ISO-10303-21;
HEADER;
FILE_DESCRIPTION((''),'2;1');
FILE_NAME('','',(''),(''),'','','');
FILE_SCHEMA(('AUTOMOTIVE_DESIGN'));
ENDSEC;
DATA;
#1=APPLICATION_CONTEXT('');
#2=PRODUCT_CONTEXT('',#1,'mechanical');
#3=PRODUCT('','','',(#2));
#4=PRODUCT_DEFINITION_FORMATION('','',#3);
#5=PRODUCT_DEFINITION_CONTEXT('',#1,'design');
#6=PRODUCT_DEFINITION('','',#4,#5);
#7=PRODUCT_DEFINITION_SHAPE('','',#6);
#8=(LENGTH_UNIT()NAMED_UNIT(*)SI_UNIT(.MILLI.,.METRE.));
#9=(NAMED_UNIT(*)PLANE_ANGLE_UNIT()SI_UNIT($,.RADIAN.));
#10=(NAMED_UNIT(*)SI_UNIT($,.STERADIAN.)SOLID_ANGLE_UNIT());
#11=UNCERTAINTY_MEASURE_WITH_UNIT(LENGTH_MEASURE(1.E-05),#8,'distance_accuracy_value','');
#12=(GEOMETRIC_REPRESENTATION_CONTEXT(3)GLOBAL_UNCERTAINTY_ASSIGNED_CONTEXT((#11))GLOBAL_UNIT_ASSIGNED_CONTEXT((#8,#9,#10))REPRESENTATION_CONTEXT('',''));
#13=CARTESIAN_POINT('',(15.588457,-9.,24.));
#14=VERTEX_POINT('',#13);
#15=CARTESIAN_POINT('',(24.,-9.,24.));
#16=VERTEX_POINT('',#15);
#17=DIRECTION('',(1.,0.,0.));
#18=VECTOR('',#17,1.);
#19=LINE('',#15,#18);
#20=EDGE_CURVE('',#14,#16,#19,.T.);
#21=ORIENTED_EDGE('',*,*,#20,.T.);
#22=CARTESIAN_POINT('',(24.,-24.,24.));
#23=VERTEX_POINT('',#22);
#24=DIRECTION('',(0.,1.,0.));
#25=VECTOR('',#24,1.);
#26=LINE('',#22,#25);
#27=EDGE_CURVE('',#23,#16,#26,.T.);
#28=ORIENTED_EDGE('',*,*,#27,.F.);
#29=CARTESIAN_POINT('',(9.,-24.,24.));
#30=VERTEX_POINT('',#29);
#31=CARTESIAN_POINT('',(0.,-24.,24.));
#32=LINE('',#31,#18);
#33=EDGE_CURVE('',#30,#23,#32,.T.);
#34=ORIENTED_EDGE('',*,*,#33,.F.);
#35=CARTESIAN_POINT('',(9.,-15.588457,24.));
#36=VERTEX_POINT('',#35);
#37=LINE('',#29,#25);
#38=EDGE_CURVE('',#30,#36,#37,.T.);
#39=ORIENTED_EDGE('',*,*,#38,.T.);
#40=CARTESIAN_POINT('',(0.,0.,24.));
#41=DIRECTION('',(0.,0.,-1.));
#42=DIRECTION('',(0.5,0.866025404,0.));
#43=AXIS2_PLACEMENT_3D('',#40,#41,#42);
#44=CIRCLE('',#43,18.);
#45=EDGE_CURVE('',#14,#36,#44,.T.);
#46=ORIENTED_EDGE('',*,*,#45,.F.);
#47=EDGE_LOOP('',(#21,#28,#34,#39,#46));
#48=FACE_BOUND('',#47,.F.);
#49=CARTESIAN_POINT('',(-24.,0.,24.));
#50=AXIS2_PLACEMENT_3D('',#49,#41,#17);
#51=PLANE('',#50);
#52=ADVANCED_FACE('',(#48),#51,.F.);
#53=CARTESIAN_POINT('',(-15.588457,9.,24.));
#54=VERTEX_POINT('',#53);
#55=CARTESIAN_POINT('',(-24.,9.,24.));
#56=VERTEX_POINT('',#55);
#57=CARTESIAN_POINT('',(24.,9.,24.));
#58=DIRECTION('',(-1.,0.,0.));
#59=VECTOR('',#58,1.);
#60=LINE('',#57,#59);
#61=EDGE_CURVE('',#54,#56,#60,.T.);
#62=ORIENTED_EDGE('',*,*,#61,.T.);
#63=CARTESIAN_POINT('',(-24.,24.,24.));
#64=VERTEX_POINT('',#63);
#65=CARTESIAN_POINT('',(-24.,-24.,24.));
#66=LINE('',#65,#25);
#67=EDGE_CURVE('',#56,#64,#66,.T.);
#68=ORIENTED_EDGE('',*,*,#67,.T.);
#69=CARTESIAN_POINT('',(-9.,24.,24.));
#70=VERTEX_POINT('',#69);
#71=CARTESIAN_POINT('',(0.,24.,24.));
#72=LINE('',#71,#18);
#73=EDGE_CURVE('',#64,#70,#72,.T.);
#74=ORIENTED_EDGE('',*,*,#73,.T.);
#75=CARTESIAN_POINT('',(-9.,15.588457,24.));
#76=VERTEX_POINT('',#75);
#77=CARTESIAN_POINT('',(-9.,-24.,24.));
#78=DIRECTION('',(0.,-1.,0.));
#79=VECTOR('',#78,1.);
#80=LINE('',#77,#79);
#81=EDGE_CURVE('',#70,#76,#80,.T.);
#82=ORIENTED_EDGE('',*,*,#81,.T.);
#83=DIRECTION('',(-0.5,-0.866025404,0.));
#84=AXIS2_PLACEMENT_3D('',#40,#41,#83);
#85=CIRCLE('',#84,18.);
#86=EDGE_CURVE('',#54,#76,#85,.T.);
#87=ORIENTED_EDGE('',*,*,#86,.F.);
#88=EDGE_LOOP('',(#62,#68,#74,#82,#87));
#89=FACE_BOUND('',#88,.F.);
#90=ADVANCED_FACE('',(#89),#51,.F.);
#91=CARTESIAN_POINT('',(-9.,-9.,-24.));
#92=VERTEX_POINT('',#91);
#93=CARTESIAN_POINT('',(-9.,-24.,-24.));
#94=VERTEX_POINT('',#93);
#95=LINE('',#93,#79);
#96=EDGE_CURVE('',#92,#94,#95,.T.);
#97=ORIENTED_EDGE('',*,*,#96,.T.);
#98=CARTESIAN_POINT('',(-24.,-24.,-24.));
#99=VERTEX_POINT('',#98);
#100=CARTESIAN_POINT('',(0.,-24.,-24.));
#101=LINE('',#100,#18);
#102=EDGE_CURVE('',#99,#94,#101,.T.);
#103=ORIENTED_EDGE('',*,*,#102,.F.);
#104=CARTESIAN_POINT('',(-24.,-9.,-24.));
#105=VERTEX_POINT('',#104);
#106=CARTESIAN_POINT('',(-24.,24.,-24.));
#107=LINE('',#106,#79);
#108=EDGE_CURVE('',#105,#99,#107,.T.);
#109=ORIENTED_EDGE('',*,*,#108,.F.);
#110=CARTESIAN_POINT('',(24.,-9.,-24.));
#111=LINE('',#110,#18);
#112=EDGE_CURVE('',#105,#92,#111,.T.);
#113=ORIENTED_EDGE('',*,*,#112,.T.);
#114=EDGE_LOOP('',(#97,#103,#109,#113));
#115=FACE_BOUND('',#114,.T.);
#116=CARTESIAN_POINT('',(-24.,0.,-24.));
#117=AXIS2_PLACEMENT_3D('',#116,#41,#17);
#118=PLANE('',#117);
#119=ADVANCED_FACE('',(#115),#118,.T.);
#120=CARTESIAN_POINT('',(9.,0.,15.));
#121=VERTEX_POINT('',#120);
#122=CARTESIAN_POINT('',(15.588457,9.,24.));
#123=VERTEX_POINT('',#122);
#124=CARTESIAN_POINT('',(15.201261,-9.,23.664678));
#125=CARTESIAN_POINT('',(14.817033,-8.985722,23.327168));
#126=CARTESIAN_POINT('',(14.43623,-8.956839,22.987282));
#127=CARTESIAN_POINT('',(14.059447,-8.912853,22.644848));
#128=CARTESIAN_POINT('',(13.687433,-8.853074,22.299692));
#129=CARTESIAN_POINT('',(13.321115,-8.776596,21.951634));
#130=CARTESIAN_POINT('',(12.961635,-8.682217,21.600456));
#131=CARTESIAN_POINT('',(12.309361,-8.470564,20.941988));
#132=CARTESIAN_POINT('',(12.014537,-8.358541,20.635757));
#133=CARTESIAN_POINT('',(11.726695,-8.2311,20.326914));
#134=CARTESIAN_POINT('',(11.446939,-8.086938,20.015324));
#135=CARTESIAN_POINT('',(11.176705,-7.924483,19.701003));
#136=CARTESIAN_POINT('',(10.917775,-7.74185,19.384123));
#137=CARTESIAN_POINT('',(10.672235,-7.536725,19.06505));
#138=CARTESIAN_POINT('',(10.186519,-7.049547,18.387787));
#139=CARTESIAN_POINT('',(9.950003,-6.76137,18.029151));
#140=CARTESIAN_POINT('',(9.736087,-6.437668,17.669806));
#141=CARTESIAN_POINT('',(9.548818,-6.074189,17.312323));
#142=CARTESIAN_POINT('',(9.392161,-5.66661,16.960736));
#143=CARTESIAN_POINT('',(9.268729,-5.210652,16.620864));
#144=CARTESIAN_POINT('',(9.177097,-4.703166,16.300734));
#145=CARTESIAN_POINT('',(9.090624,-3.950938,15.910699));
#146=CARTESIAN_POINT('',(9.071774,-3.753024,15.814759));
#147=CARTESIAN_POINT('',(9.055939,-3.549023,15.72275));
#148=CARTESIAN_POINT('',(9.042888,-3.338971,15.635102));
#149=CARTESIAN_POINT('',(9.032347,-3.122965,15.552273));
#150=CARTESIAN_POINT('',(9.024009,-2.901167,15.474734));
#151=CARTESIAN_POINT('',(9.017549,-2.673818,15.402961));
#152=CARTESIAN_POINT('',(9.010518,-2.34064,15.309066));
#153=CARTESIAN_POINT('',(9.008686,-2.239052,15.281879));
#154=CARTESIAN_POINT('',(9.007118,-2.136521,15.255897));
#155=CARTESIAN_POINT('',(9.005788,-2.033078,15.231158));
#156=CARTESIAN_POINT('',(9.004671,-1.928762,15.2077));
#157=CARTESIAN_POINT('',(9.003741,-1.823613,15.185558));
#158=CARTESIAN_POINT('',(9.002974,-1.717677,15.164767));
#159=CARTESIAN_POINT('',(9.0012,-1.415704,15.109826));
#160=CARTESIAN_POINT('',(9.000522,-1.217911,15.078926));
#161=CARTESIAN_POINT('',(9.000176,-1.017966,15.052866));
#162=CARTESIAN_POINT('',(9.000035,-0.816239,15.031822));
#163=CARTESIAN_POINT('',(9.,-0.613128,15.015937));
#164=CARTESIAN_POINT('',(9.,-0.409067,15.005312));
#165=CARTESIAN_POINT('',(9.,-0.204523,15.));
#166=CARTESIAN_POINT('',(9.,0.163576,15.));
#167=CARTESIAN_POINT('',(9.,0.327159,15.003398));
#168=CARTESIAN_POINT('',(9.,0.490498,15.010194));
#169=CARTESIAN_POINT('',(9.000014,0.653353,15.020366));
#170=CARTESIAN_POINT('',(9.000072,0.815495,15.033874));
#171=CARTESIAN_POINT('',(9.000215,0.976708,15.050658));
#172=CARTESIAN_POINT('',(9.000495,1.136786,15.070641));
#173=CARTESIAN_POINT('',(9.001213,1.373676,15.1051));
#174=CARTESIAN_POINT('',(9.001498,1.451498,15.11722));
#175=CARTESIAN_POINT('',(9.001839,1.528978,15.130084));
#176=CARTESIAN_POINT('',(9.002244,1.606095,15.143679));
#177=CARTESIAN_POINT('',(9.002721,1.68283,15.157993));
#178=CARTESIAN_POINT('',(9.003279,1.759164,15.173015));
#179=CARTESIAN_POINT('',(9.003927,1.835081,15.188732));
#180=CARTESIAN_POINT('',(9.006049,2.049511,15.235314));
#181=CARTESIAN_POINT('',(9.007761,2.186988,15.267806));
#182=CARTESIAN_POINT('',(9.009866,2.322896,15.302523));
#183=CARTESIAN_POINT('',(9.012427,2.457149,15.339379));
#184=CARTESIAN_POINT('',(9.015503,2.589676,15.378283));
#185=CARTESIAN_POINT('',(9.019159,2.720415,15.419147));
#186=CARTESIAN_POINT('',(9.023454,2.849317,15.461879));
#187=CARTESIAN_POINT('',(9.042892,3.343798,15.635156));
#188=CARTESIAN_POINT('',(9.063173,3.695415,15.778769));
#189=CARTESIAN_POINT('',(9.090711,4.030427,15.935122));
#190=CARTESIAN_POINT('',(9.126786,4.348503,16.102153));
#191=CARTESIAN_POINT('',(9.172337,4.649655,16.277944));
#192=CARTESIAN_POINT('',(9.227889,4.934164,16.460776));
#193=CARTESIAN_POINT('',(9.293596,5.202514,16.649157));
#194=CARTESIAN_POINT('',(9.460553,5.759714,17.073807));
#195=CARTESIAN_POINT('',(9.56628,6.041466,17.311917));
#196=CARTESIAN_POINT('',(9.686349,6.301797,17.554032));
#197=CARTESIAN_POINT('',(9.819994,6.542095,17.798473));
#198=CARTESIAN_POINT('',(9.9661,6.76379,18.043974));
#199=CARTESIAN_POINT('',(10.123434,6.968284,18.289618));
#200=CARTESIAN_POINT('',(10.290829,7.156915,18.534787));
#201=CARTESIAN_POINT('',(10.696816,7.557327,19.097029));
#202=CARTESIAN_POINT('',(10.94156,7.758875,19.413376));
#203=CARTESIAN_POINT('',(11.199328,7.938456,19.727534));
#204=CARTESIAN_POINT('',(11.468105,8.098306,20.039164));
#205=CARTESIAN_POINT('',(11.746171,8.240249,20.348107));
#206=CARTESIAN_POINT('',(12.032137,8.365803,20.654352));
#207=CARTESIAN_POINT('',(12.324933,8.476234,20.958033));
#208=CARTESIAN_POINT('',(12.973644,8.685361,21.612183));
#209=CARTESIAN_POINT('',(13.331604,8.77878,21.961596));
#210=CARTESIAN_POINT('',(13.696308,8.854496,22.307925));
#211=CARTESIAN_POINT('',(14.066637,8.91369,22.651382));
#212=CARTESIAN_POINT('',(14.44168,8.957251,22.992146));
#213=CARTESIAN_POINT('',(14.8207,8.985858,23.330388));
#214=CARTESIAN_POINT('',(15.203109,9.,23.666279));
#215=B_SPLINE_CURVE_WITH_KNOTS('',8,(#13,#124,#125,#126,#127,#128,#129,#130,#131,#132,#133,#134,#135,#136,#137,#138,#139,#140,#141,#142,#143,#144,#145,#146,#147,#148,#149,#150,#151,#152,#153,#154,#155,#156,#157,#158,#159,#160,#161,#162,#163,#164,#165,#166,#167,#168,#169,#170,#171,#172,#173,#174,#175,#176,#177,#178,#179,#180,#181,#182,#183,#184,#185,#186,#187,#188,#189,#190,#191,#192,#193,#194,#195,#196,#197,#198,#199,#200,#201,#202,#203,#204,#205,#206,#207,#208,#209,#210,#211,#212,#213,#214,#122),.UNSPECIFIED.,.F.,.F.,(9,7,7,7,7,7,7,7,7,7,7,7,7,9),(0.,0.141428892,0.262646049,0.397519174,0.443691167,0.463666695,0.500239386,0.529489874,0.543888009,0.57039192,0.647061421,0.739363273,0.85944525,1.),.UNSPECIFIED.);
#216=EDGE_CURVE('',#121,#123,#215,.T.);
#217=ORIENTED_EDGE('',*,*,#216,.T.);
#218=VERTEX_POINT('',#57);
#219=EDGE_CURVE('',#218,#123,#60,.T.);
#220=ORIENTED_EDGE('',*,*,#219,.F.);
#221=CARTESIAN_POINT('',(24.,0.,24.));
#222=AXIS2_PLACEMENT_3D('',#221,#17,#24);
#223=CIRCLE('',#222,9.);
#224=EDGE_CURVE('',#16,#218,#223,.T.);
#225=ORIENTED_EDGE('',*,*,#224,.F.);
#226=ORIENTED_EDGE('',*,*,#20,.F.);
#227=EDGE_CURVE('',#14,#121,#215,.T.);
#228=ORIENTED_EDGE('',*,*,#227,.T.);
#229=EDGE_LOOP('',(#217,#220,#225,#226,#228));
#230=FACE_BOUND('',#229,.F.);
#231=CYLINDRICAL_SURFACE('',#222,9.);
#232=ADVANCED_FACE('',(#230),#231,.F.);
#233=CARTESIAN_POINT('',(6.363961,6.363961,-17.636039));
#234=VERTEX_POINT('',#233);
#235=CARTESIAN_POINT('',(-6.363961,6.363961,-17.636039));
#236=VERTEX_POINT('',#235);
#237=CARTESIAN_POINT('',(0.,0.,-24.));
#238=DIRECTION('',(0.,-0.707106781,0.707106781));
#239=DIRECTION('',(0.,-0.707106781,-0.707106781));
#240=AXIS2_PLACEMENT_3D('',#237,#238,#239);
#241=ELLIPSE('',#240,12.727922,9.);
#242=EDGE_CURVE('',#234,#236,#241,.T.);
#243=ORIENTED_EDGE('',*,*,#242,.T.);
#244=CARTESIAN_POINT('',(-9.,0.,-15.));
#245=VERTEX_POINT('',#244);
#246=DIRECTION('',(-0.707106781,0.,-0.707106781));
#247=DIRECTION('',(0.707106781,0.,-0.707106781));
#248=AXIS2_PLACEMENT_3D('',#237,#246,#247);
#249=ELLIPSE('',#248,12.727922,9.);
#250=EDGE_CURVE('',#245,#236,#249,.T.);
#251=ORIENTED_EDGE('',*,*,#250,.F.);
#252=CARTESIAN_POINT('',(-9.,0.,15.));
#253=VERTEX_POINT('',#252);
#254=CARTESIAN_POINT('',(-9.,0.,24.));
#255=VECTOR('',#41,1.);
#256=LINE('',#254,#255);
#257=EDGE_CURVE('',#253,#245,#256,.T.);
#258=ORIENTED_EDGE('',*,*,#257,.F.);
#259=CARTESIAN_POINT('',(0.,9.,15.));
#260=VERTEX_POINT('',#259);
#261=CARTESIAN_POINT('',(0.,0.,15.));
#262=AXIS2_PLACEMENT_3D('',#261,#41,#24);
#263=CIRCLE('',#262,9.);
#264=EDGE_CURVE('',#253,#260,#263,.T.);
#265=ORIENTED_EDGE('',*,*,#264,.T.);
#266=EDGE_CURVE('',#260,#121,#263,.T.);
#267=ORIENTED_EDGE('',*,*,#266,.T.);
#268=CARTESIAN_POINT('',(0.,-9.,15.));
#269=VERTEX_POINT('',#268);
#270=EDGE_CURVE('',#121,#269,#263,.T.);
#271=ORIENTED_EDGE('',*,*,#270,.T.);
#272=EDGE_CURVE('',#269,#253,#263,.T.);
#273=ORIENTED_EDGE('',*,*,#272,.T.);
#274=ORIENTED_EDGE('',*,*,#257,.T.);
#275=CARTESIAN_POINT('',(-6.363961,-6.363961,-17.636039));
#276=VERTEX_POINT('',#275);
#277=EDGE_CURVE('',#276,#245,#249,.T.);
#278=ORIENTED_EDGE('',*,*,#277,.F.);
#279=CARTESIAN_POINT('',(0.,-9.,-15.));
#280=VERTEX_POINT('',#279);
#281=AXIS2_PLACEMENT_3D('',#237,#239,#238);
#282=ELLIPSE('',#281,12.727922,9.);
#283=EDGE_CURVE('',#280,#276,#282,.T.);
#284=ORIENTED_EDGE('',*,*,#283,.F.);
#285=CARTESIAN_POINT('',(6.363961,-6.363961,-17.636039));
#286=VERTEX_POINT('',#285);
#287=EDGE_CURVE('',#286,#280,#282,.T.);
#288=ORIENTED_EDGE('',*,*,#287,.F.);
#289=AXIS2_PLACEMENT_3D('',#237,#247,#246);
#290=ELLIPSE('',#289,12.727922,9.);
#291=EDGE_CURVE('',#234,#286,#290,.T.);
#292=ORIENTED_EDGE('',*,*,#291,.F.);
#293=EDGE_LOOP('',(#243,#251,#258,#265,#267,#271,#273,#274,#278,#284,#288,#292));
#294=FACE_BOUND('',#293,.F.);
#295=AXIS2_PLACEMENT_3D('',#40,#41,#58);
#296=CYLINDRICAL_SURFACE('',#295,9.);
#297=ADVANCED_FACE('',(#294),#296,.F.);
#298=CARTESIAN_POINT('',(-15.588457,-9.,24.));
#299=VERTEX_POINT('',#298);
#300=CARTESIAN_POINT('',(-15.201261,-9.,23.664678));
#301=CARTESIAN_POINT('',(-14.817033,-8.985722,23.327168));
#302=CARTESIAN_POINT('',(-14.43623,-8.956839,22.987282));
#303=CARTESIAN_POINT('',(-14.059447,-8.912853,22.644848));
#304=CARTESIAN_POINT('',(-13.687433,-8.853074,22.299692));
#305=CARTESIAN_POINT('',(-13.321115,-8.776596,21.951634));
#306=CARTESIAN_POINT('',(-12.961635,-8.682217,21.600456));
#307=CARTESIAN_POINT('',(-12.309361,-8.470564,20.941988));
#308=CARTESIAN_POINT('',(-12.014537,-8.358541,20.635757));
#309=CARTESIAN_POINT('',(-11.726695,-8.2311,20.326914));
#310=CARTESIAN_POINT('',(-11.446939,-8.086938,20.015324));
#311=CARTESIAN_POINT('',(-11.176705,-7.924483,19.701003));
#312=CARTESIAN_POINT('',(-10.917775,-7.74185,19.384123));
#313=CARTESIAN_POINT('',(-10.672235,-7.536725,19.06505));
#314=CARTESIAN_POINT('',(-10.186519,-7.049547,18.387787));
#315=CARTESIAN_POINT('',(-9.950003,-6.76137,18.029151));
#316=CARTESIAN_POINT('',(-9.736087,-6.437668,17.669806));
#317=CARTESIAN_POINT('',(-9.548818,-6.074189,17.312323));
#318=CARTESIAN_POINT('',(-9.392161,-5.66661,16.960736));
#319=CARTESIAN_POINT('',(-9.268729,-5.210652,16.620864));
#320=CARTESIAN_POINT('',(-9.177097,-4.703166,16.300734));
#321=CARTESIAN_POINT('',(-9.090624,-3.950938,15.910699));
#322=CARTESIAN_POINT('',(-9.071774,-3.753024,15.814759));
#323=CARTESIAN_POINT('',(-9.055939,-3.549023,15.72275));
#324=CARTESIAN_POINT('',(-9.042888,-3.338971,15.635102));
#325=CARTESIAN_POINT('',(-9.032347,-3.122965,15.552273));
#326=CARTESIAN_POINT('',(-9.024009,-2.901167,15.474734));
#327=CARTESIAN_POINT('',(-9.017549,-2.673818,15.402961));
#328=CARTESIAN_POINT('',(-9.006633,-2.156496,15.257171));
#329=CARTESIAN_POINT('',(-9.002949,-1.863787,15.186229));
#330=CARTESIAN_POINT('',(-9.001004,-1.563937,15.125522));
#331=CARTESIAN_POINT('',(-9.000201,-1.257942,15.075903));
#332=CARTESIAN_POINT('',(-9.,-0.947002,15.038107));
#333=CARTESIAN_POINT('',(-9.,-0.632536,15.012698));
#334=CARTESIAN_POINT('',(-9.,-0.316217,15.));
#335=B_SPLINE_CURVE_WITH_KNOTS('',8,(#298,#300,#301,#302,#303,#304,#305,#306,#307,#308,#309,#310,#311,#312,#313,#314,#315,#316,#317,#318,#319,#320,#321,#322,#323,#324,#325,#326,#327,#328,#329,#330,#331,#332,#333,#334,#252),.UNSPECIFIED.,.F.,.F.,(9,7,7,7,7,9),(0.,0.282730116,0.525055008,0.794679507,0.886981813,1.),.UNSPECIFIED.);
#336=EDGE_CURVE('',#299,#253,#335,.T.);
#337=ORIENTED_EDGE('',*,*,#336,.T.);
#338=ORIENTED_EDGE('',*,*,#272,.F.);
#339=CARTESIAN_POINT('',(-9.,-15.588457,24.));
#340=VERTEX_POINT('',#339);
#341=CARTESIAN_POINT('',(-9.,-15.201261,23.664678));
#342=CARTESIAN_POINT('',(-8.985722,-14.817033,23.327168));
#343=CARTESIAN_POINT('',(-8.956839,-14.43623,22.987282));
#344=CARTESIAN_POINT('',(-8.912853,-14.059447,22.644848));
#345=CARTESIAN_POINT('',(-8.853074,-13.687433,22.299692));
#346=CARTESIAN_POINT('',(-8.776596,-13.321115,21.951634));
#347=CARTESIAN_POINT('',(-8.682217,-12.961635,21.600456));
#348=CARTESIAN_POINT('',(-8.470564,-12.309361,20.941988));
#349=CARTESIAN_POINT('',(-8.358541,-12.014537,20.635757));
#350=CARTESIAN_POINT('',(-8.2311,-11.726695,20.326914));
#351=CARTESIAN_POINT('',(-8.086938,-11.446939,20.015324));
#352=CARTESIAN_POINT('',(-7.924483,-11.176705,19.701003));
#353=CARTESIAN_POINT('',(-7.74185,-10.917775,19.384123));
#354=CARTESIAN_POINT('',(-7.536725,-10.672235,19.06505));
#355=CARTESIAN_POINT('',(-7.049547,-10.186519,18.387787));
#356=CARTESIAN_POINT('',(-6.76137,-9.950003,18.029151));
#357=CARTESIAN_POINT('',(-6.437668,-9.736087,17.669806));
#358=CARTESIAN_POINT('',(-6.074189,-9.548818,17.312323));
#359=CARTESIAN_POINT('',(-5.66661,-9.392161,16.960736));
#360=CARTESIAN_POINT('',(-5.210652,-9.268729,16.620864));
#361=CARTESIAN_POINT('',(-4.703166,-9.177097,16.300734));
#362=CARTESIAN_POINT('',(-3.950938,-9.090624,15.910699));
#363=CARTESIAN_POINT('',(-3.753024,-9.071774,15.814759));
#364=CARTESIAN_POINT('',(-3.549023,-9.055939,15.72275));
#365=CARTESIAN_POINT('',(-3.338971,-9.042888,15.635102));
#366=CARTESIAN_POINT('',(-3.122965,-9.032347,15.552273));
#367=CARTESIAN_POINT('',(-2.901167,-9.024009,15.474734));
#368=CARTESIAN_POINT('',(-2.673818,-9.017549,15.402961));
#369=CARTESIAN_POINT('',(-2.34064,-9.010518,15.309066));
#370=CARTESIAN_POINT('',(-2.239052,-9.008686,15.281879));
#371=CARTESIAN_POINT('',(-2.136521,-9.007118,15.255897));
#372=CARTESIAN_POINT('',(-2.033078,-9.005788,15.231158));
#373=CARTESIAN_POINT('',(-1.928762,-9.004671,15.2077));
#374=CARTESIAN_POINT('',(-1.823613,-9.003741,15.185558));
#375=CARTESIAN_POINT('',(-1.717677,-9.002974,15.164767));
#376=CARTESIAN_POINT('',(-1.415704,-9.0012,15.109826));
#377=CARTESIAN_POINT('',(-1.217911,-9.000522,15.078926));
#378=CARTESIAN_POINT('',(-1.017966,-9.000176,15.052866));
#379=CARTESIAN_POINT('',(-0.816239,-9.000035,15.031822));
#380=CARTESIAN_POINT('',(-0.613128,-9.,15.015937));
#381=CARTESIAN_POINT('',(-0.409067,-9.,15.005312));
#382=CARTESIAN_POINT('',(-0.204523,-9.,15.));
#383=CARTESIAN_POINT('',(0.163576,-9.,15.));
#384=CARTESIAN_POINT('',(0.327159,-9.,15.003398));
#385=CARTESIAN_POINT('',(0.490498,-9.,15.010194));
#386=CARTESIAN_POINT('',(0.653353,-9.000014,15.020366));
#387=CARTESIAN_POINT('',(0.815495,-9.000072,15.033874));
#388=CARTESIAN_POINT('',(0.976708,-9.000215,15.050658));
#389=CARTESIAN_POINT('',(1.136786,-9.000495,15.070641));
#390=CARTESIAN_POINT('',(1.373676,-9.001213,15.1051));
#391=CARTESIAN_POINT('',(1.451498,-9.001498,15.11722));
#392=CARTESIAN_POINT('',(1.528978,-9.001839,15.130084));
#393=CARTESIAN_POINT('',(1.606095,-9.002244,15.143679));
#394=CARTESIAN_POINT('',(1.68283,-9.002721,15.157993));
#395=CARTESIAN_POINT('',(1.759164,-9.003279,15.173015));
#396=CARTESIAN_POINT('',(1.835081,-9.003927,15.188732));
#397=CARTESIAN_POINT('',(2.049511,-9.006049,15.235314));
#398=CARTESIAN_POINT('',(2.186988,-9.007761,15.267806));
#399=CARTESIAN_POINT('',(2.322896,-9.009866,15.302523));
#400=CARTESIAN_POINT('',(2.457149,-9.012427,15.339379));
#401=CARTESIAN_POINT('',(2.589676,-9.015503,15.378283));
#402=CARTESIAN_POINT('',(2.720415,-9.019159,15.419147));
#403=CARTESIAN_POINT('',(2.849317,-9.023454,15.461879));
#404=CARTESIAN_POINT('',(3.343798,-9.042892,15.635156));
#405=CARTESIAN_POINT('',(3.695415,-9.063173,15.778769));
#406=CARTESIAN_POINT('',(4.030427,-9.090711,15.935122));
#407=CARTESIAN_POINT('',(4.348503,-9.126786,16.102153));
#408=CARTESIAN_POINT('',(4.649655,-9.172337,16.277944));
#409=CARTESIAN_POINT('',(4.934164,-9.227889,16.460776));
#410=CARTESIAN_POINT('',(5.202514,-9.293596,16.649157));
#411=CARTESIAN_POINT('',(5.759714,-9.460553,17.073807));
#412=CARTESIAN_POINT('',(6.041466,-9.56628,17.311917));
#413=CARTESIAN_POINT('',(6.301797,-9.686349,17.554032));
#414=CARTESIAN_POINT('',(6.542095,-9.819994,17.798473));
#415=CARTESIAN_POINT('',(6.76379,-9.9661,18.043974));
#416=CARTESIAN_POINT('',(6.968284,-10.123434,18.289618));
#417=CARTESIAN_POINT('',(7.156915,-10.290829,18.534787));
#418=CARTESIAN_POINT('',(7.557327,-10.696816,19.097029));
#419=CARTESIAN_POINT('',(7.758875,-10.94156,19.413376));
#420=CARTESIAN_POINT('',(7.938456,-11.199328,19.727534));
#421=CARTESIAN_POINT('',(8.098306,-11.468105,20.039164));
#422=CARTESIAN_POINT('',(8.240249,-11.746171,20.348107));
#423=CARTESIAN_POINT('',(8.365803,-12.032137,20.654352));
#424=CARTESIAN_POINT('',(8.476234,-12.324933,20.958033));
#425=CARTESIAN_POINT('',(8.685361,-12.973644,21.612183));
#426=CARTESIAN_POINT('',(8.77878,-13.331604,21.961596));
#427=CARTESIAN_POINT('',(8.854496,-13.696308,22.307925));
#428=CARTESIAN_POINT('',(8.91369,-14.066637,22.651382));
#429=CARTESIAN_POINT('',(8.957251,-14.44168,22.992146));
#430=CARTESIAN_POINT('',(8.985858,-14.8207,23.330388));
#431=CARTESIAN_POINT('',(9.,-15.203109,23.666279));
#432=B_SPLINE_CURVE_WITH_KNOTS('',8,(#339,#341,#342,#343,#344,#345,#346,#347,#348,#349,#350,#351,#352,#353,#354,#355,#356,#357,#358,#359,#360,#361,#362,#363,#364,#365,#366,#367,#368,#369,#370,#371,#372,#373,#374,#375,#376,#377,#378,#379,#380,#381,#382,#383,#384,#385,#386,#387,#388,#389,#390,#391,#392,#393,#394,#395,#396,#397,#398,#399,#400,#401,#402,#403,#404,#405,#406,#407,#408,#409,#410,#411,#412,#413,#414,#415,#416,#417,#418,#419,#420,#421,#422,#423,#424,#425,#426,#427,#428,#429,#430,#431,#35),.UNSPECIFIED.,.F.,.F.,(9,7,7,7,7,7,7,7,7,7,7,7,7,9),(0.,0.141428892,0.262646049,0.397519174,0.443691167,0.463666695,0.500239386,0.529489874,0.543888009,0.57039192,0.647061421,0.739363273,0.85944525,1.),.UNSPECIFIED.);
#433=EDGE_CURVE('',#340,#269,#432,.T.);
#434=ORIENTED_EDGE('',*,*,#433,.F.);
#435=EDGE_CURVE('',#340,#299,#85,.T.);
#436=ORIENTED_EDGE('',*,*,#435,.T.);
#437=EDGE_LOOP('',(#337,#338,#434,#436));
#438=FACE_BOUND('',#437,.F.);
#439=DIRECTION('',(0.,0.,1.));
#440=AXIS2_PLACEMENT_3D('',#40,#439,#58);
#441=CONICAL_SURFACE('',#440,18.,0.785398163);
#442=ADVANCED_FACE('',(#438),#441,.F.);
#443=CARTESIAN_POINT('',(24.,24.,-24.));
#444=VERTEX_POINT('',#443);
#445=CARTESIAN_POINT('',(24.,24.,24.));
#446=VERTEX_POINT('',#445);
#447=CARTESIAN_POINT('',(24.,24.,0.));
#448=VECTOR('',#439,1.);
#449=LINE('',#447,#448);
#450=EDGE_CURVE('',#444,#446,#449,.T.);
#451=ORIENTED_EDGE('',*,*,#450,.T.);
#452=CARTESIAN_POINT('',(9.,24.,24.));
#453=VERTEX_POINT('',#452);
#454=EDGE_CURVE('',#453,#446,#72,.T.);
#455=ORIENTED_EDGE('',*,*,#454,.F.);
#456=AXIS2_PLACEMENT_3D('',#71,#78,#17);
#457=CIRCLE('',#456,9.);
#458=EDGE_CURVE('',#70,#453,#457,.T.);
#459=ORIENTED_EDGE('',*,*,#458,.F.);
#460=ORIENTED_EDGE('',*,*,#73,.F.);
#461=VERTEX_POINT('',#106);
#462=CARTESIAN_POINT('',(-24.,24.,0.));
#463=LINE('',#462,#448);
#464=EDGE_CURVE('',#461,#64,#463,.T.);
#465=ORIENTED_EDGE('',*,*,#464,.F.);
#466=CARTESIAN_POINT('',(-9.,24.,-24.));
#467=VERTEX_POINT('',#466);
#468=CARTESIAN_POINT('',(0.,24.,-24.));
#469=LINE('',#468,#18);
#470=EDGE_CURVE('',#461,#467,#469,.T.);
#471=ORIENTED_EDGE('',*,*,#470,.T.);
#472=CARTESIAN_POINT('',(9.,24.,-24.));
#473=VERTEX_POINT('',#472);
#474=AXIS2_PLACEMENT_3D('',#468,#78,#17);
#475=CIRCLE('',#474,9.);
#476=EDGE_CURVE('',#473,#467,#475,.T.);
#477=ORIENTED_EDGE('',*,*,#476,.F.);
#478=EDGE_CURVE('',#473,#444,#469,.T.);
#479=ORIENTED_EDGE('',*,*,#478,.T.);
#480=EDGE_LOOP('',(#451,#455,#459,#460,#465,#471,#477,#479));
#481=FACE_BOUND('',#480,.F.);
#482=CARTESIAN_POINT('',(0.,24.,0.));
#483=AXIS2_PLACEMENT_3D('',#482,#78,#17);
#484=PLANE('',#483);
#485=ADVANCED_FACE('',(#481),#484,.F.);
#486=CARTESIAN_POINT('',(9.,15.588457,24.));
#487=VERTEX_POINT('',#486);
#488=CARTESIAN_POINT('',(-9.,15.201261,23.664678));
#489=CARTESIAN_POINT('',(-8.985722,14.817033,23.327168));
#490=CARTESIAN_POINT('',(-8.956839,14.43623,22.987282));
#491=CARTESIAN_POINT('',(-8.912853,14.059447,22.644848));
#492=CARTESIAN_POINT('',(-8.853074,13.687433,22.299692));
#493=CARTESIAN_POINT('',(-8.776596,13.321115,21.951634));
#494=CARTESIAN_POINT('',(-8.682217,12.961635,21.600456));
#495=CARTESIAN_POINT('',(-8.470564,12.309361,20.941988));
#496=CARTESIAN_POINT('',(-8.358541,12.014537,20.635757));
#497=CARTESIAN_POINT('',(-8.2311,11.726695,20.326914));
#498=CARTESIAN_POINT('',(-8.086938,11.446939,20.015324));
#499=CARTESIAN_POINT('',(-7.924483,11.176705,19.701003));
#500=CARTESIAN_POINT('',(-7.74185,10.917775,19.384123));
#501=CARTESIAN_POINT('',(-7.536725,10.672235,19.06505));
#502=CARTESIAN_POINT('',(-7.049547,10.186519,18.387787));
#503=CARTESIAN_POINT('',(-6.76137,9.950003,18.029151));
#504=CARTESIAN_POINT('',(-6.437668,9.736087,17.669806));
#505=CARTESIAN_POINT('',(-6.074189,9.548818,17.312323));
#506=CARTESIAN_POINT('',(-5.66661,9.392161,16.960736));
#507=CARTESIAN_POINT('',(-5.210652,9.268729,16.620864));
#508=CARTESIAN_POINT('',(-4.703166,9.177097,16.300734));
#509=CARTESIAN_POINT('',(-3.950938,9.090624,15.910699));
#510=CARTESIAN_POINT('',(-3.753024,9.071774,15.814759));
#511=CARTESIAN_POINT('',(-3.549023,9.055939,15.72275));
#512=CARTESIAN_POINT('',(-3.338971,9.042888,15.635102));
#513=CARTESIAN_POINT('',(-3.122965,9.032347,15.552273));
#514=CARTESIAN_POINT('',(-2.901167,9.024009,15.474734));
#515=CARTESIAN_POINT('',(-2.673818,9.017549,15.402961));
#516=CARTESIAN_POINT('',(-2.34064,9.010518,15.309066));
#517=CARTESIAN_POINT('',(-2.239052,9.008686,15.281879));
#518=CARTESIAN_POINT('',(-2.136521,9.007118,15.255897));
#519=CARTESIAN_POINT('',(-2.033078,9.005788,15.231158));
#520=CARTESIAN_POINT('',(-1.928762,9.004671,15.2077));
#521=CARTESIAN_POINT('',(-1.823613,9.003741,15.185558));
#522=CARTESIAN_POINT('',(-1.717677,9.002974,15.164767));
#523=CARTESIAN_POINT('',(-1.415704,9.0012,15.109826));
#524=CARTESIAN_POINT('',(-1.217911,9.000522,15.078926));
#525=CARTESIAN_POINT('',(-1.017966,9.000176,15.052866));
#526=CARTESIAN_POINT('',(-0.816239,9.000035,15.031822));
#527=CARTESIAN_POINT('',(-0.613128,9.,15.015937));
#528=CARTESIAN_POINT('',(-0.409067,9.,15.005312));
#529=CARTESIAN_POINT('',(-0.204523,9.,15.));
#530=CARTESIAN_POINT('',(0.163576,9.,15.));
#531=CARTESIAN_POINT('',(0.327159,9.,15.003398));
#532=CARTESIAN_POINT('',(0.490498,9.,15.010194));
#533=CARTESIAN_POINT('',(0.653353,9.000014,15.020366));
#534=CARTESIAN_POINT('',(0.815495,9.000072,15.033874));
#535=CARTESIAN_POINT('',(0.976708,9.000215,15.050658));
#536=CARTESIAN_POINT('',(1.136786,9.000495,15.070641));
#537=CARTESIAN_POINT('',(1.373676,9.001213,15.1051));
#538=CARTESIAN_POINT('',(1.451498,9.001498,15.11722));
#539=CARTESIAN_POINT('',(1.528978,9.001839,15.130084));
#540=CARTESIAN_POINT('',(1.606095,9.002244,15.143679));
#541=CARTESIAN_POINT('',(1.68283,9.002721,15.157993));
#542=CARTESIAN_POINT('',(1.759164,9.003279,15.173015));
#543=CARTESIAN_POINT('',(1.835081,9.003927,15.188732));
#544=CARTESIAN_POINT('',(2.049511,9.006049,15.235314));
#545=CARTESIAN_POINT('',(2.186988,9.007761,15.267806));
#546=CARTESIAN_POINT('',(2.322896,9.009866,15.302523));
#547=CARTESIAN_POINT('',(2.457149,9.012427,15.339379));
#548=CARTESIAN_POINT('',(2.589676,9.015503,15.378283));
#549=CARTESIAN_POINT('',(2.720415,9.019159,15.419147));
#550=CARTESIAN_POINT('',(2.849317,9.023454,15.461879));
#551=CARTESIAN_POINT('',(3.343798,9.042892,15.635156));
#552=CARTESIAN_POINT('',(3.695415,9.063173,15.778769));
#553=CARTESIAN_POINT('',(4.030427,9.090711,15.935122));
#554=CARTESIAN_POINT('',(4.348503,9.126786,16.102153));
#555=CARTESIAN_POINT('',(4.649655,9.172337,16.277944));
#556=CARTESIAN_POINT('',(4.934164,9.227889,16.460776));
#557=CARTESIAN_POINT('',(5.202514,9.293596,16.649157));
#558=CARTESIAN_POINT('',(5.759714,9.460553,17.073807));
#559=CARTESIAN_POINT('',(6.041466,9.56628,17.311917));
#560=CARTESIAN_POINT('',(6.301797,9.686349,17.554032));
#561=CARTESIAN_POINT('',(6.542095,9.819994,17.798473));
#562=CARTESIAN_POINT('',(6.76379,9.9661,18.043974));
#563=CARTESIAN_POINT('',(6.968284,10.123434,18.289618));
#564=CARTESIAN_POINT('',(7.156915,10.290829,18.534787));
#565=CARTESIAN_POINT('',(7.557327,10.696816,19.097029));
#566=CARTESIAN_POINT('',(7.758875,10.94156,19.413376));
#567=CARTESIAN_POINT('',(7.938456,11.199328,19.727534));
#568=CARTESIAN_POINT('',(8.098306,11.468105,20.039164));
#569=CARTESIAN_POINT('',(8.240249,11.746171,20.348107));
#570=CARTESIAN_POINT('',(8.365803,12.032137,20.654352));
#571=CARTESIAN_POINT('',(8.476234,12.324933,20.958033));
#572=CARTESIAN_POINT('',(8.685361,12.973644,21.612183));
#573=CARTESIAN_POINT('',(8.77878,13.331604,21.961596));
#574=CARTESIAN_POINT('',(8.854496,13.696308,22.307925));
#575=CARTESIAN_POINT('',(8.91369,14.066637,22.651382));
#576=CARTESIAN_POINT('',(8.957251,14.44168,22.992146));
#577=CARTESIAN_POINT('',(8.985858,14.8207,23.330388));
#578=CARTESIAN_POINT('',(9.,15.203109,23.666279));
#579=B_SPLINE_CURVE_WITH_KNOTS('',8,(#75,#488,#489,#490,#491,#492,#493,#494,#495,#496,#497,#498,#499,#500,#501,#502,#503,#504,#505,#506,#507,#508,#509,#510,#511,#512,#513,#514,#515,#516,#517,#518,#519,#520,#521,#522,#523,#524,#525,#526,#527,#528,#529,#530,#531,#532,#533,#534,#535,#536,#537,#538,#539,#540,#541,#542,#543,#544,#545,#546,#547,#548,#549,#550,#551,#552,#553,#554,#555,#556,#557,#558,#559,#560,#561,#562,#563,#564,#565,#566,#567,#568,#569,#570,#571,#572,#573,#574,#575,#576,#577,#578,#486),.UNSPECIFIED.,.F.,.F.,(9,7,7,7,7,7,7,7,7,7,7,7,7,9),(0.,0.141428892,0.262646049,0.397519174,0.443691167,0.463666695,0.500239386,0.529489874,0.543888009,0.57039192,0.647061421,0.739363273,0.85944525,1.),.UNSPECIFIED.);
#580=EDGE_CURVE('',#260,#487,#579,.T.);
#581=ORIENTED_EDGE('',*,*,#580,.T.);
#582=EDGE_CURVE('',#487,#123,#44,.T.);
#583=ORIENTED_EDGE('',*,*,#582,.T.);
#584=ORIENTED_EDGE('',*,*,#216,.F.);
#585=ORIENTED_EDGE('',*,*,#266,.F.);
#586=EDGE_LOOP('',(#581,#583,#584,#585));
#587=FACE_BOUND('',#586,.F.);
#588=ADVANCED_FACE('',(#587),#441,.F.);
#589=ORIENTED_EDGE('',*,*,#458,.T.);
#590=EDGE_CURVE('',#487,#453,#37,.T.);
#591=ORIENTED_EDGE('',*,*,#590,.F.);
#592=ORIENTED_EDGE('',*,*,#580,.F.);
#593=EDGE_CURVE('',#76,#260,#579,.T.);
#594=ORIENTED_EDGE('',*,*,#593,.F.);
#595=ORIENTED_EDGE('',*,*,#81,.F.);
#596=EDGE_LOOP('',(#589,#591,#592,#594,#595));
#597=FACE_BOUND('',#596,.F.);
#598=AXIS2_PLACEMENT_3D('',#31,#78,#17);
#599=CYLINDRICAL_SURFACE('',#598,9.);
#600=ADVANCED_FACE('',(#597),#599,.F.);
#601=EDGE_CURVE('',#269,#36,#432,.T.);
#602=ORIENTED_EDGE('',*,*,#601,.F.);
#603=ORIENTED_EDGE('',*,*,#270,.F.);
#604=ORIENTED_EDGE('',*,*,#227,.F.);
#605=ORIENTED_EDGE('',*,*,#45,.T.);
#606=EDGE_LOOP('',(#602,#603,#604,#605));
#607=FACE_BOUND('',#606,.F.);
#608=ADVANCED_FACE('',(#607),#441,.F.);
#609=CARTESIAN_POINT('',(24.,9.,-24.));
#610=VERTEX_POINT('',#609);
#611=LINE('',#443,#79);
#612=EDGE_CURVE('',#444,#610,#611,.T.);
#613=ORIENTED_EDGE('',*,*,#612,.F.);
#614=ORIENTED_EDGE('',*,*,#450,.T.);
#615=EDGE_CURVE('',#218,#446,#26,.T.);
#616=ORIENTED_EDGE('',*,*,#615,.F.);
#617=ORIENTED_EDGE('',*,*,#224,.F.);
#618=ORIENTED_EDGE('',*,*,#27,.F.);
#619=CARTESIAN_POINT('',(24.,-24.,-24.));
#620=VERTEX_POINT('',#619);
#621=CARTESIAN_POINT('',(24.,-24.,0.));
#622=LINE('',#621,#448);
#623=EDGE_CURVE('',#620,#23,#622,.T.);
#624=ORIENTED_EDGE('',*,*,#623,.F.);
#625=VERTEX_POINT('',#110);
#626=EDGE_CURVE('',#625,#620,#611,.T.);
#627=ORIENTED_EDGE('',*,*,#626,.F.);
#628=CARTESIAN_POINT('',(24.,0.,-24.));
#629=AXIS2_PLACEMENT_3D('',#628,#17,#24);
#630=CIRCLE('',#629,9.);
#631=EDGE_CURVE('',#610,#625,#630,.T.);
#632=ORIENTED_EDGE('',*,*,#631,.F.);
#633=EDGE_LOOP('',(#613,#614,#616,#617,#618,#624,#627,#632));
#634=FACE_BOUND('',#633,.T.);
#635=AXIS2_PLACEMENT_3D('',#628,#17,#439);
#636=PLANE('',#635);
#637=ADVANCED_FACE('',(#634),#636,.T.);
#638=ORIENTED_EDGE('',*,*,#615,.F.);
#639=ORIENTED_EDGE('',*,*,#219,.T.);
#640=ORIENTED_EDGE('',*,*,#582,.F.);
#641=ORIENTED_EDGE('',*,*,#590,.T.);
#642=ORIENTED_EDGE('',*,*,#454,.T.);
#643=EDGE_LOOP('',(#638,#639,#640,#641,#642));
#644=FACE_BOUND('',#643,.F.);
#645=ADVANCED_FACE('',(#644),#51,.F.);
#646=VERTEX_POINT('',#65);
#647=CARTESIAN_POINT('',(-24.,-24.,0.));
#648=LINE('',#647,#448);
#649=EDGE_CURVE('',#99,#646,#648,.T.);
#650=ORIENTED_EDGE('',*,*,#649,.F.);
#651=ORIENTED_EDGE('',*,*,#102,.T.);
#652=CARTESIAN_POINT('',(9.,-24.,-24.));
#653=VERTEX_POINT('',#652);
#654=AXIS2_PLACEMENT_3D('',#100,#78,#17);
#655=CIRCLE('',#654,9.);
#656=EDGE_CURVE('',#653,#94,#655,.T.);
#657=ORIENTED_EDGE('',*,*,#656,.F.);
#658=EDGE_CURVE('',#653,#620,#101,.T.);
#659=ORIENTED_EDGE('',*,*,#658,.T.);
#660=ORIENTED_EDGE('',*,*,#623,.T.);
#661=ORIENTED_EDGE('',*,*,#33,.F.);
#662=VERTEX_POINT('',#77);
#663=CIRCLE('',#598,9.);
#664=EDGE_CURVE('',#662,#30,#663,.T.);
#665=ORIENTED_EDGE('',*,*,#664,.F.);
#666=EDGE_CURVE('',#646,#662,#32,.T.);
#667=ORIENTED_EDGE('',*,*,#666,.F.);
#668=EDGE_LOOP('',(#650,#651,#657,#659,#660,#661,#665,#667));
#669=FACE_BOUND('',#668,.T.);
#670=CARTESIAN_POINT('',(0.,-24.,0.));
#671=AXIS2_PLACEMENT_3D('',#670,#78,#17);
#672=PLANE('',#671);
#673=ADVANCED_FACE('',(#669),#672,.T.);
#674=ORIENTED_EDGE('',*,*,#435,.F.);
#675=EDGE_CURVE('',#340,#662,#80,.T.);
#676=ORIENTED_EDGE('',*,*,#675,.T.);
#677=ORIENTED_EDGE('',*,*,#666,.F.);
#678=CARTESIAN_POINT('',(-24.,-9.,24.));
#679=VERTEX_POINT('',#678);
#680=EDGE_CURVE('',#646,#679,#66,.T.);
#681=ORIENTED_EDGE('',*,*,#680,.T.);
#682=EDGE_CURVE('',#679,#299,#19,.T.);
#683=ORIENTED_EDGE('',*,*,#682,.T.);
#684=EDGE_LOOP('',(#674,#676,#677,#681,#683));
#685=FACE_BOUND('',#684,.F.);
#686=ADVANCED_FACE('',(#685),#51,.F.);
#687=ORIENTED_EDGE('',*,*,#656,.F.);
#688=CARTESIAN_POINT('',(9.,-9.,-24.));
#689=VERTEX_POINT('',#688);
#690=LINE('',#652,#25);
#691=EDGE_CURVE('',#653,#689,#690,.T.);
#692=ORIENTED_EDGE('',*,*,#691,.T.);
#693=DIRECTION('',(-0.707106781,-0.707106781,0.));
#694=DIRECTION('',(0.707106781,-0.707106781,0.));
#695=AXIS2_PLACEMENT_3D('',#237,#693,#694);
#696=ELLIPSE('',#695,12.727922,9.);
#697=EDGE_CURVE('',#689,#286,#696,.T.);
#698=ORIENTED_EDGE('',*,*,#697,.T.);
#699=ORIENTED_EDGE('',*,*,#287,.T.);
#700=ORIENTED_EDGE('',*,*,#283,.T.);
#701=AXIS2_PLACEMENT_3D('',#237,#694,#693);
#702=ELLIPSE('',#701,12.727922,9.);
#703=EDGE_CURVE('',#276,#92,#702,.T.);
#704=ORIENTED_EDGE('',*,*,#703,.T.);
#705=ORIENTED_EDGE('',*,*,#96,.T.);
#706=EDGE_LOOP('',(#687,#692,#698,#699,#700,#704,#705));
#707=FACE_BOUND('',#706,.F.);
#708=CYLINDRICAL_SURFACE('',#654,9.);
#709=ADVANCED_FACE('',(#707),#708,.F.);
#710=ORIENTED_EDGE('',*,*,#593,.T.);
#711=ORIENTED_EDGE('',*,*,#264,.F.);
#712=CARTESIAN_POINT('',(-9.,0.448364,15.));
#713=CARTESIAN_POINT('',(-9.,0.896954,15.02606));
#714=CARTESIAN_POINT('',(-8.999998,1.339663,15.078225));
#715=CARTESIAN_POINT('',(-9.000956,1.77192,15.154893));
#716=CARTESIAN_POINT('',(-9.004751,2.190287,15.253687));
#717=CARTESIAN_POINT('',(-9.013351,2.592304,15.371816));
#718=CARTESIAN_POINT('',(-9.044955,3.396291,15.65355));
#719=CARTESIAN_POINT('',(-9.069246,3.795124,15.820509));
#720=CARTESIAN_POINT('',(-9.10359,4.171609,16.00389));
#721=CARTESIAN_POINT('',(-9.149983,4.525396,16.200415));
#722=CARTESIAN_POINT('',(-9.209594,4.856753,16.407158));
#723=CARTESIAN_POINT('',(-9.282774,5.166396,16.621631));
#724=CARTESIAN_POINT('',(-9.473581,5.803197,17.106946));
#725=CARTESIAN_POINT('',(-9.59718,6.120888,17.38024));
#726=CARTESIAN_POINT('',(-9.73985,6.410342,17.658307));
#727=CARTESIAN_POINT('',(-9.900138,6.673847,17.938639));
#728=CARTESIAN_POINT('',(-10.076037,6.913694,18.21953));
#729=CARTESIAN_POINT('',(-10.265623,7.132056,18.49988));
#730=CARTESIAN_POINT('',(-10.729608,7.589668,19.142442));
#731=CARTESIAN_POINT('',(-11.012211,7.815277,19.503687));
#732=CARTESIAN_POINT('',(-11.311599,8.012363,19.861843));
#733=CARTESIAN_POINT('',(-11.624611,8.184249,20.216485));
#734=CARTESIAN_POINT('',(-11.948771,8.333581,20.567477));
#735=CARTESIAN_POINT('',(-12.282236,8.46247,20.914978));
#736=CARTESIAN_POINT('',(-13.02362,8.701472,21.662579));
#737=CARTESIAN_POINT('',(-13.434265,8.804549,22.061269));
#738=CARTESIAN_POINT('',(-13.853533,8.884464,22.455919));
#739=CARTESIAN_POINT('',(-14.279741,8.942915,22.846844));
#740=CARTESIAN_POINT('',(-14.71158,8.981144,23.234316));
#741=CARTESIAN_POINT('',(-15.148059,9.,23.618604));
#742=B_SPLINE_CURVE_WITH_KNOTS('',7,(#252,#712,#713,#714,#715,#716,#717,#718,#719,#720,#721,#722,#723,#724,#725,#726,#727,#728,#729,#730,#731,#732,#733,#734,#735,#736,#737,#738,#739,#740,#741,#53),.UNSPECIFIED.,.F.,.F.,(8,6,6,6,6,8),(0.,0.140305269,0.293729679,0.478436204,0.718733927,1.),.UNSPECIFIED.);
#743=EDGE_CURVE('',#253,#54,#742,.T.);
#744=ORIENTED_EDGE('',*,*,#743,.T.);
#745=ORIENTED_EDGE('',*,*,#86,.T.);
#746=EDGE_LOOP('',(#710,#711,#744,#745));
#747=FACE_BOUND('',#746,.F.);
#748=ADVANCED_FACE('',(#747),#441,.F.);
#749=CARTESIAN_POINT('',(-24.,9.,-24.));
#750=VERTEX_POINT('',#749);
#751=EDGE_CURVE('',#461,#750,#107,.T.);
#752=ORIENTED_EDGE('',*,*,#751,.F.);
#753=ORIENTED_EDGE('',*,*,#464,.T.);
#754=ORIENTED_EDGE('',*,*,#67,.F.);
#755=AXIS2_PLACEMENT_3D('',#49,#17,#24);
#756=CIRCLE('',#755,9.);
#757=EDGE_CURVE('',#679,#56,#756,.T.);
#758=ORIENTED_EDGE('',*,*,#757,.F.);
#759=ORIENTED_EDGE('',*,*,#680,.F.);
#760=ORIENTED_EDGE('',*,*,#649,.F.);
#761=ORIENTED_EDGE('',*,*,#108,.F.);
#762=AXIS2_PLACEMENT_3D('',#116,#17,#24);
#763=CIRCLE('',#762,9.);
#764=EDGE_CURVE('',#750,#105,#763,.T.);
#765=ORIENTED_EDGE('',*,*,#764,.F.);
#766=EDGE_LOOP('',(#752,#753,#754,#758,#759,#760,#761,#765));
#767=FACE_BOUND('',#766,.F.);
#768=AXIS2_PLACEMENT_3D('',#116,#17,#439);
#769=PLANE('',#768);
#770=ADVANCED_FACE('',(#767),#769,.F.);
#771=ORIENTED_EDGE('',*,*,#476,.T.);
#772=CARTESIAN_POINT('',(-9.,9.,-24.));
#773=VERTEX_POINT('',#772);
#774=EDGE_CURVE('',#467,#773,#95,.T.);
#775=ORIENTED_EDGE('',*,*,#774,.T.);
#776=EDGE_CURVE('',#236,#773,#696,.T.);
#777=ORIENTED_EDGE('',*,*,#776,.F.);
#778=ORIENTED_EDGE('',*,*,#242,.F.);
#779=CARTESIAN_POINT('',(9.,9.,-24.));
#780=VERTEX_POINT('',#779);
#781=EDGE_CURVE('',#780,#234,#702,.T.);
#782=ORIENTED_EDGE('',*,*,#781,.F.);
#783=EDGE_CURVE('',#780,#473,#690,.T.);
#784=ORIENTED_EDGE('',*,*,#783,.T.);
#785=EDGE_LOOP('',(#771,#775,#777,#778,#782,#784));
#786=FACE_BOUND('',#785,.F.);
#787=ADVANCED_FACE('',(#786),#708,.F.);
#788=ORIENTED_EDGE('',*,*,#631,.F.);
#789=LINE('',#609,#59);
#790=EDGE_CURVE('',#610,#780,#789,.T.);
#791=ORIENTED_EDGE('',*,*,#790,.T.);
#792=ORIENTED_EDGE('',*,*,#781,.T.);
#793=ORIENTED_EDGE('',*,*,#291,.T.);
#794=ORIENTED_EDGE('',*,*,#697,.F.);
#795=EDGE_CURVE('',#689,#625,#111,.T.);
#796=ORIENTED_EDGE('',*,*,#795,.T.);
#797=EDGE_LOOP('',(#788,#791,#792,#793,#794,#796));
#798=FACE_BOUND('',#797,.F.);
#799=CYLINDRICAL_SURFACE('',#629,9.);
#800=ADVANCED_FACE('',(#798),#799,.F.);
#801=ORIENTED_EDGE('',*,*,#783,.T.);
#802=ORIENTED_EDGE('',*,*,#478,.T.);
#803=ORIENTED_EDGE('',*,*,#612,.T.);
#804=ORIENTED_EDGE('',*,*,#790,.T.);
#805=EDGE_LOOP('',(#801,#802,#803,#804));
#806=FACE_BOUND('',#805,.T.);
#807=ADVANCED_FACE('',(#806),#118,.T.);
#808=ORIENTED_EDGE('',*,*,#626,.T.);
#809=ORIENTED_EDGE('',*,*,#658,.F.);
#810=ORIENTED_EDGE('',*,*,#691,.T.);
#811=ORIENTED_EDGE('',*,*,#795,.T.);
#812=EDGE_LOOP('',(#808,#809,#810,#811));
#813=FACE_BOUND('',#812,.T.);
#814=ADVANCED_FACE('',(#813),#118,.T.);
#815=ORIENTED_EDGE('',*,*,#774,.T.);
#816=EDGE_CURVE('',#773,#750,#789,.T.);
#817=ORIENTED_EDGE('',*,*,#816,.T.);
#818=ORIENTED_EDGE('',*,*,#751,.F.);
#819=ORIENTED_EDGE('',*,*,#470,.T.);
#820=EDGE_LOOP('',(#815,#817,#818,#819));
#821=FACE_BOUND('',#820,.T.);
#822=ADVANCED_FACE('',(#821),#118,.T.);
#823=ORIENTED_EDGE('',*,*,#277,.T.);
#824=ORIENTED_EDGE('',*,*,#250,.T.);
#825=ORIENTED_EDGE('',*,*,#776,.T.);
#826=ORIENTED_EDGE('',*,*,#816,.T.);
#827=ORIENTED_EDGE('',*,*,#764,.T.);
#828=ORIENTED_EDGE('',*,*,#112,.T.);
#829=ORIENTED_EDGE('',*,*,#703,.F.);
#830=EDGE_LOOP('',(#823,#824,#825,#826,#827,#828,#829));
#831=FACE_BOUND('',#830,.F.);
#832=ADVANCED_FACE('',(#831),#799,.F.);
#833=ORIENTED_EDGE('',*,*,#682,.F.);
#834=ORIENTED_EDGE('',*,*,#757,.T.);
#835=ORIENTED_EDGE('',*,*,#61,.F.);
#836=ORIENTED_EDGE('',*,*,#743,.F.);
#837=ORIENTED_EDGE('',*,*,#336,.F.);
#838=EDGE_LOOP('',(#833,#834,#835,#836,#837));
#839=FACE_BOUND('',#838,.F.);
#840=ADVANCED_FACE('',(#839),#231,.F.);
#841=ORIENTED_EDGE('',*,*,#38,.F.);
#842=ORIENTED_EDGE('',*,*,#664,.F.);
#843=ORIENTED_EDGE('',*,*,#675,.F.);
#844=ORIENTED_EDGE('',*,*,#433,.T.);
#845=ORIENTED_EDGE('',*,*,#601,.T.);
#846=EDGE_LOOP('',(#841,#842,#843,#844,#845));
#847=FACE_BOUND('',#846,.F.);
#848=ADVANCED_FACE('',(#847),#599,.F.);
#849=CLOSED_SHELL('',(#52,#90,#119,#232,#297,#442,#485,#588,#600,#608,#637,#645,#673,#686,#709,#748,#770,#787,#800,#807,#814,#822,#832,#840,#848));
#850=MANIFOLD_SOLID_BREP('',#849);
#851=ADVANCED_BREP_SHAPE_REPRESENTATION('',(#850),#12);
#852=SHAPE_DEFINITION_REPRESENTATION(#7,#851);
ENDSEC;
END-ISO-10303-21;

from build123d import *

# Parameters (mm, degrees)
F0_W           = 48
F0_H           = 48
F1_DEPTH       = 24
F2_R           = 9
F3_DEPTH       = 48
F6_D           = 18
F6_CSINK_D     = 36
F6_CSINK_ANGLE = 90
F4_R           = 9
F7_DEPTH       = 48


with BuildPart() as f1:
    # F0 (on Front) → F1 (new body, symmetric)
    with BuildSketch(Plane.XZ):
        Rectangle(F0_W, F0_H)
    extrude(amount=F1_DEPTH, both=True)

    # F2 (on face) → F3 (cut)
    with BuildSketch(Plane.XZ.offset(24)):
        with Locations((0, 24)):
            Circle(F2_R)
        with Locations((0, -24)):
            Circle(F2_R)
    extrude(amount=-F3_DEPTH, mode=Mode.SUBTRACT)

    # F6 (through all)
    with Locations(Plane.XY.offset(24)):
        with Locations((0, 0)):
            CounterSinkHole(F6_D / 2, F6_CSINK_D / 2, counter_sink_angle=F6_CSINK_ANGLE)

    # F4 (on face) → F7 (cut)
    with BuildSketch(Plane.YZ.offset(24)):
        with Locations((0, 24)):
            Circle(F4_R)
        with Locations((0, -24)):
            Circle(F4_R)
    extrude(amount=-F7_DEPTH, mode=Mode.SUBTRACT)


solid = f1.part
